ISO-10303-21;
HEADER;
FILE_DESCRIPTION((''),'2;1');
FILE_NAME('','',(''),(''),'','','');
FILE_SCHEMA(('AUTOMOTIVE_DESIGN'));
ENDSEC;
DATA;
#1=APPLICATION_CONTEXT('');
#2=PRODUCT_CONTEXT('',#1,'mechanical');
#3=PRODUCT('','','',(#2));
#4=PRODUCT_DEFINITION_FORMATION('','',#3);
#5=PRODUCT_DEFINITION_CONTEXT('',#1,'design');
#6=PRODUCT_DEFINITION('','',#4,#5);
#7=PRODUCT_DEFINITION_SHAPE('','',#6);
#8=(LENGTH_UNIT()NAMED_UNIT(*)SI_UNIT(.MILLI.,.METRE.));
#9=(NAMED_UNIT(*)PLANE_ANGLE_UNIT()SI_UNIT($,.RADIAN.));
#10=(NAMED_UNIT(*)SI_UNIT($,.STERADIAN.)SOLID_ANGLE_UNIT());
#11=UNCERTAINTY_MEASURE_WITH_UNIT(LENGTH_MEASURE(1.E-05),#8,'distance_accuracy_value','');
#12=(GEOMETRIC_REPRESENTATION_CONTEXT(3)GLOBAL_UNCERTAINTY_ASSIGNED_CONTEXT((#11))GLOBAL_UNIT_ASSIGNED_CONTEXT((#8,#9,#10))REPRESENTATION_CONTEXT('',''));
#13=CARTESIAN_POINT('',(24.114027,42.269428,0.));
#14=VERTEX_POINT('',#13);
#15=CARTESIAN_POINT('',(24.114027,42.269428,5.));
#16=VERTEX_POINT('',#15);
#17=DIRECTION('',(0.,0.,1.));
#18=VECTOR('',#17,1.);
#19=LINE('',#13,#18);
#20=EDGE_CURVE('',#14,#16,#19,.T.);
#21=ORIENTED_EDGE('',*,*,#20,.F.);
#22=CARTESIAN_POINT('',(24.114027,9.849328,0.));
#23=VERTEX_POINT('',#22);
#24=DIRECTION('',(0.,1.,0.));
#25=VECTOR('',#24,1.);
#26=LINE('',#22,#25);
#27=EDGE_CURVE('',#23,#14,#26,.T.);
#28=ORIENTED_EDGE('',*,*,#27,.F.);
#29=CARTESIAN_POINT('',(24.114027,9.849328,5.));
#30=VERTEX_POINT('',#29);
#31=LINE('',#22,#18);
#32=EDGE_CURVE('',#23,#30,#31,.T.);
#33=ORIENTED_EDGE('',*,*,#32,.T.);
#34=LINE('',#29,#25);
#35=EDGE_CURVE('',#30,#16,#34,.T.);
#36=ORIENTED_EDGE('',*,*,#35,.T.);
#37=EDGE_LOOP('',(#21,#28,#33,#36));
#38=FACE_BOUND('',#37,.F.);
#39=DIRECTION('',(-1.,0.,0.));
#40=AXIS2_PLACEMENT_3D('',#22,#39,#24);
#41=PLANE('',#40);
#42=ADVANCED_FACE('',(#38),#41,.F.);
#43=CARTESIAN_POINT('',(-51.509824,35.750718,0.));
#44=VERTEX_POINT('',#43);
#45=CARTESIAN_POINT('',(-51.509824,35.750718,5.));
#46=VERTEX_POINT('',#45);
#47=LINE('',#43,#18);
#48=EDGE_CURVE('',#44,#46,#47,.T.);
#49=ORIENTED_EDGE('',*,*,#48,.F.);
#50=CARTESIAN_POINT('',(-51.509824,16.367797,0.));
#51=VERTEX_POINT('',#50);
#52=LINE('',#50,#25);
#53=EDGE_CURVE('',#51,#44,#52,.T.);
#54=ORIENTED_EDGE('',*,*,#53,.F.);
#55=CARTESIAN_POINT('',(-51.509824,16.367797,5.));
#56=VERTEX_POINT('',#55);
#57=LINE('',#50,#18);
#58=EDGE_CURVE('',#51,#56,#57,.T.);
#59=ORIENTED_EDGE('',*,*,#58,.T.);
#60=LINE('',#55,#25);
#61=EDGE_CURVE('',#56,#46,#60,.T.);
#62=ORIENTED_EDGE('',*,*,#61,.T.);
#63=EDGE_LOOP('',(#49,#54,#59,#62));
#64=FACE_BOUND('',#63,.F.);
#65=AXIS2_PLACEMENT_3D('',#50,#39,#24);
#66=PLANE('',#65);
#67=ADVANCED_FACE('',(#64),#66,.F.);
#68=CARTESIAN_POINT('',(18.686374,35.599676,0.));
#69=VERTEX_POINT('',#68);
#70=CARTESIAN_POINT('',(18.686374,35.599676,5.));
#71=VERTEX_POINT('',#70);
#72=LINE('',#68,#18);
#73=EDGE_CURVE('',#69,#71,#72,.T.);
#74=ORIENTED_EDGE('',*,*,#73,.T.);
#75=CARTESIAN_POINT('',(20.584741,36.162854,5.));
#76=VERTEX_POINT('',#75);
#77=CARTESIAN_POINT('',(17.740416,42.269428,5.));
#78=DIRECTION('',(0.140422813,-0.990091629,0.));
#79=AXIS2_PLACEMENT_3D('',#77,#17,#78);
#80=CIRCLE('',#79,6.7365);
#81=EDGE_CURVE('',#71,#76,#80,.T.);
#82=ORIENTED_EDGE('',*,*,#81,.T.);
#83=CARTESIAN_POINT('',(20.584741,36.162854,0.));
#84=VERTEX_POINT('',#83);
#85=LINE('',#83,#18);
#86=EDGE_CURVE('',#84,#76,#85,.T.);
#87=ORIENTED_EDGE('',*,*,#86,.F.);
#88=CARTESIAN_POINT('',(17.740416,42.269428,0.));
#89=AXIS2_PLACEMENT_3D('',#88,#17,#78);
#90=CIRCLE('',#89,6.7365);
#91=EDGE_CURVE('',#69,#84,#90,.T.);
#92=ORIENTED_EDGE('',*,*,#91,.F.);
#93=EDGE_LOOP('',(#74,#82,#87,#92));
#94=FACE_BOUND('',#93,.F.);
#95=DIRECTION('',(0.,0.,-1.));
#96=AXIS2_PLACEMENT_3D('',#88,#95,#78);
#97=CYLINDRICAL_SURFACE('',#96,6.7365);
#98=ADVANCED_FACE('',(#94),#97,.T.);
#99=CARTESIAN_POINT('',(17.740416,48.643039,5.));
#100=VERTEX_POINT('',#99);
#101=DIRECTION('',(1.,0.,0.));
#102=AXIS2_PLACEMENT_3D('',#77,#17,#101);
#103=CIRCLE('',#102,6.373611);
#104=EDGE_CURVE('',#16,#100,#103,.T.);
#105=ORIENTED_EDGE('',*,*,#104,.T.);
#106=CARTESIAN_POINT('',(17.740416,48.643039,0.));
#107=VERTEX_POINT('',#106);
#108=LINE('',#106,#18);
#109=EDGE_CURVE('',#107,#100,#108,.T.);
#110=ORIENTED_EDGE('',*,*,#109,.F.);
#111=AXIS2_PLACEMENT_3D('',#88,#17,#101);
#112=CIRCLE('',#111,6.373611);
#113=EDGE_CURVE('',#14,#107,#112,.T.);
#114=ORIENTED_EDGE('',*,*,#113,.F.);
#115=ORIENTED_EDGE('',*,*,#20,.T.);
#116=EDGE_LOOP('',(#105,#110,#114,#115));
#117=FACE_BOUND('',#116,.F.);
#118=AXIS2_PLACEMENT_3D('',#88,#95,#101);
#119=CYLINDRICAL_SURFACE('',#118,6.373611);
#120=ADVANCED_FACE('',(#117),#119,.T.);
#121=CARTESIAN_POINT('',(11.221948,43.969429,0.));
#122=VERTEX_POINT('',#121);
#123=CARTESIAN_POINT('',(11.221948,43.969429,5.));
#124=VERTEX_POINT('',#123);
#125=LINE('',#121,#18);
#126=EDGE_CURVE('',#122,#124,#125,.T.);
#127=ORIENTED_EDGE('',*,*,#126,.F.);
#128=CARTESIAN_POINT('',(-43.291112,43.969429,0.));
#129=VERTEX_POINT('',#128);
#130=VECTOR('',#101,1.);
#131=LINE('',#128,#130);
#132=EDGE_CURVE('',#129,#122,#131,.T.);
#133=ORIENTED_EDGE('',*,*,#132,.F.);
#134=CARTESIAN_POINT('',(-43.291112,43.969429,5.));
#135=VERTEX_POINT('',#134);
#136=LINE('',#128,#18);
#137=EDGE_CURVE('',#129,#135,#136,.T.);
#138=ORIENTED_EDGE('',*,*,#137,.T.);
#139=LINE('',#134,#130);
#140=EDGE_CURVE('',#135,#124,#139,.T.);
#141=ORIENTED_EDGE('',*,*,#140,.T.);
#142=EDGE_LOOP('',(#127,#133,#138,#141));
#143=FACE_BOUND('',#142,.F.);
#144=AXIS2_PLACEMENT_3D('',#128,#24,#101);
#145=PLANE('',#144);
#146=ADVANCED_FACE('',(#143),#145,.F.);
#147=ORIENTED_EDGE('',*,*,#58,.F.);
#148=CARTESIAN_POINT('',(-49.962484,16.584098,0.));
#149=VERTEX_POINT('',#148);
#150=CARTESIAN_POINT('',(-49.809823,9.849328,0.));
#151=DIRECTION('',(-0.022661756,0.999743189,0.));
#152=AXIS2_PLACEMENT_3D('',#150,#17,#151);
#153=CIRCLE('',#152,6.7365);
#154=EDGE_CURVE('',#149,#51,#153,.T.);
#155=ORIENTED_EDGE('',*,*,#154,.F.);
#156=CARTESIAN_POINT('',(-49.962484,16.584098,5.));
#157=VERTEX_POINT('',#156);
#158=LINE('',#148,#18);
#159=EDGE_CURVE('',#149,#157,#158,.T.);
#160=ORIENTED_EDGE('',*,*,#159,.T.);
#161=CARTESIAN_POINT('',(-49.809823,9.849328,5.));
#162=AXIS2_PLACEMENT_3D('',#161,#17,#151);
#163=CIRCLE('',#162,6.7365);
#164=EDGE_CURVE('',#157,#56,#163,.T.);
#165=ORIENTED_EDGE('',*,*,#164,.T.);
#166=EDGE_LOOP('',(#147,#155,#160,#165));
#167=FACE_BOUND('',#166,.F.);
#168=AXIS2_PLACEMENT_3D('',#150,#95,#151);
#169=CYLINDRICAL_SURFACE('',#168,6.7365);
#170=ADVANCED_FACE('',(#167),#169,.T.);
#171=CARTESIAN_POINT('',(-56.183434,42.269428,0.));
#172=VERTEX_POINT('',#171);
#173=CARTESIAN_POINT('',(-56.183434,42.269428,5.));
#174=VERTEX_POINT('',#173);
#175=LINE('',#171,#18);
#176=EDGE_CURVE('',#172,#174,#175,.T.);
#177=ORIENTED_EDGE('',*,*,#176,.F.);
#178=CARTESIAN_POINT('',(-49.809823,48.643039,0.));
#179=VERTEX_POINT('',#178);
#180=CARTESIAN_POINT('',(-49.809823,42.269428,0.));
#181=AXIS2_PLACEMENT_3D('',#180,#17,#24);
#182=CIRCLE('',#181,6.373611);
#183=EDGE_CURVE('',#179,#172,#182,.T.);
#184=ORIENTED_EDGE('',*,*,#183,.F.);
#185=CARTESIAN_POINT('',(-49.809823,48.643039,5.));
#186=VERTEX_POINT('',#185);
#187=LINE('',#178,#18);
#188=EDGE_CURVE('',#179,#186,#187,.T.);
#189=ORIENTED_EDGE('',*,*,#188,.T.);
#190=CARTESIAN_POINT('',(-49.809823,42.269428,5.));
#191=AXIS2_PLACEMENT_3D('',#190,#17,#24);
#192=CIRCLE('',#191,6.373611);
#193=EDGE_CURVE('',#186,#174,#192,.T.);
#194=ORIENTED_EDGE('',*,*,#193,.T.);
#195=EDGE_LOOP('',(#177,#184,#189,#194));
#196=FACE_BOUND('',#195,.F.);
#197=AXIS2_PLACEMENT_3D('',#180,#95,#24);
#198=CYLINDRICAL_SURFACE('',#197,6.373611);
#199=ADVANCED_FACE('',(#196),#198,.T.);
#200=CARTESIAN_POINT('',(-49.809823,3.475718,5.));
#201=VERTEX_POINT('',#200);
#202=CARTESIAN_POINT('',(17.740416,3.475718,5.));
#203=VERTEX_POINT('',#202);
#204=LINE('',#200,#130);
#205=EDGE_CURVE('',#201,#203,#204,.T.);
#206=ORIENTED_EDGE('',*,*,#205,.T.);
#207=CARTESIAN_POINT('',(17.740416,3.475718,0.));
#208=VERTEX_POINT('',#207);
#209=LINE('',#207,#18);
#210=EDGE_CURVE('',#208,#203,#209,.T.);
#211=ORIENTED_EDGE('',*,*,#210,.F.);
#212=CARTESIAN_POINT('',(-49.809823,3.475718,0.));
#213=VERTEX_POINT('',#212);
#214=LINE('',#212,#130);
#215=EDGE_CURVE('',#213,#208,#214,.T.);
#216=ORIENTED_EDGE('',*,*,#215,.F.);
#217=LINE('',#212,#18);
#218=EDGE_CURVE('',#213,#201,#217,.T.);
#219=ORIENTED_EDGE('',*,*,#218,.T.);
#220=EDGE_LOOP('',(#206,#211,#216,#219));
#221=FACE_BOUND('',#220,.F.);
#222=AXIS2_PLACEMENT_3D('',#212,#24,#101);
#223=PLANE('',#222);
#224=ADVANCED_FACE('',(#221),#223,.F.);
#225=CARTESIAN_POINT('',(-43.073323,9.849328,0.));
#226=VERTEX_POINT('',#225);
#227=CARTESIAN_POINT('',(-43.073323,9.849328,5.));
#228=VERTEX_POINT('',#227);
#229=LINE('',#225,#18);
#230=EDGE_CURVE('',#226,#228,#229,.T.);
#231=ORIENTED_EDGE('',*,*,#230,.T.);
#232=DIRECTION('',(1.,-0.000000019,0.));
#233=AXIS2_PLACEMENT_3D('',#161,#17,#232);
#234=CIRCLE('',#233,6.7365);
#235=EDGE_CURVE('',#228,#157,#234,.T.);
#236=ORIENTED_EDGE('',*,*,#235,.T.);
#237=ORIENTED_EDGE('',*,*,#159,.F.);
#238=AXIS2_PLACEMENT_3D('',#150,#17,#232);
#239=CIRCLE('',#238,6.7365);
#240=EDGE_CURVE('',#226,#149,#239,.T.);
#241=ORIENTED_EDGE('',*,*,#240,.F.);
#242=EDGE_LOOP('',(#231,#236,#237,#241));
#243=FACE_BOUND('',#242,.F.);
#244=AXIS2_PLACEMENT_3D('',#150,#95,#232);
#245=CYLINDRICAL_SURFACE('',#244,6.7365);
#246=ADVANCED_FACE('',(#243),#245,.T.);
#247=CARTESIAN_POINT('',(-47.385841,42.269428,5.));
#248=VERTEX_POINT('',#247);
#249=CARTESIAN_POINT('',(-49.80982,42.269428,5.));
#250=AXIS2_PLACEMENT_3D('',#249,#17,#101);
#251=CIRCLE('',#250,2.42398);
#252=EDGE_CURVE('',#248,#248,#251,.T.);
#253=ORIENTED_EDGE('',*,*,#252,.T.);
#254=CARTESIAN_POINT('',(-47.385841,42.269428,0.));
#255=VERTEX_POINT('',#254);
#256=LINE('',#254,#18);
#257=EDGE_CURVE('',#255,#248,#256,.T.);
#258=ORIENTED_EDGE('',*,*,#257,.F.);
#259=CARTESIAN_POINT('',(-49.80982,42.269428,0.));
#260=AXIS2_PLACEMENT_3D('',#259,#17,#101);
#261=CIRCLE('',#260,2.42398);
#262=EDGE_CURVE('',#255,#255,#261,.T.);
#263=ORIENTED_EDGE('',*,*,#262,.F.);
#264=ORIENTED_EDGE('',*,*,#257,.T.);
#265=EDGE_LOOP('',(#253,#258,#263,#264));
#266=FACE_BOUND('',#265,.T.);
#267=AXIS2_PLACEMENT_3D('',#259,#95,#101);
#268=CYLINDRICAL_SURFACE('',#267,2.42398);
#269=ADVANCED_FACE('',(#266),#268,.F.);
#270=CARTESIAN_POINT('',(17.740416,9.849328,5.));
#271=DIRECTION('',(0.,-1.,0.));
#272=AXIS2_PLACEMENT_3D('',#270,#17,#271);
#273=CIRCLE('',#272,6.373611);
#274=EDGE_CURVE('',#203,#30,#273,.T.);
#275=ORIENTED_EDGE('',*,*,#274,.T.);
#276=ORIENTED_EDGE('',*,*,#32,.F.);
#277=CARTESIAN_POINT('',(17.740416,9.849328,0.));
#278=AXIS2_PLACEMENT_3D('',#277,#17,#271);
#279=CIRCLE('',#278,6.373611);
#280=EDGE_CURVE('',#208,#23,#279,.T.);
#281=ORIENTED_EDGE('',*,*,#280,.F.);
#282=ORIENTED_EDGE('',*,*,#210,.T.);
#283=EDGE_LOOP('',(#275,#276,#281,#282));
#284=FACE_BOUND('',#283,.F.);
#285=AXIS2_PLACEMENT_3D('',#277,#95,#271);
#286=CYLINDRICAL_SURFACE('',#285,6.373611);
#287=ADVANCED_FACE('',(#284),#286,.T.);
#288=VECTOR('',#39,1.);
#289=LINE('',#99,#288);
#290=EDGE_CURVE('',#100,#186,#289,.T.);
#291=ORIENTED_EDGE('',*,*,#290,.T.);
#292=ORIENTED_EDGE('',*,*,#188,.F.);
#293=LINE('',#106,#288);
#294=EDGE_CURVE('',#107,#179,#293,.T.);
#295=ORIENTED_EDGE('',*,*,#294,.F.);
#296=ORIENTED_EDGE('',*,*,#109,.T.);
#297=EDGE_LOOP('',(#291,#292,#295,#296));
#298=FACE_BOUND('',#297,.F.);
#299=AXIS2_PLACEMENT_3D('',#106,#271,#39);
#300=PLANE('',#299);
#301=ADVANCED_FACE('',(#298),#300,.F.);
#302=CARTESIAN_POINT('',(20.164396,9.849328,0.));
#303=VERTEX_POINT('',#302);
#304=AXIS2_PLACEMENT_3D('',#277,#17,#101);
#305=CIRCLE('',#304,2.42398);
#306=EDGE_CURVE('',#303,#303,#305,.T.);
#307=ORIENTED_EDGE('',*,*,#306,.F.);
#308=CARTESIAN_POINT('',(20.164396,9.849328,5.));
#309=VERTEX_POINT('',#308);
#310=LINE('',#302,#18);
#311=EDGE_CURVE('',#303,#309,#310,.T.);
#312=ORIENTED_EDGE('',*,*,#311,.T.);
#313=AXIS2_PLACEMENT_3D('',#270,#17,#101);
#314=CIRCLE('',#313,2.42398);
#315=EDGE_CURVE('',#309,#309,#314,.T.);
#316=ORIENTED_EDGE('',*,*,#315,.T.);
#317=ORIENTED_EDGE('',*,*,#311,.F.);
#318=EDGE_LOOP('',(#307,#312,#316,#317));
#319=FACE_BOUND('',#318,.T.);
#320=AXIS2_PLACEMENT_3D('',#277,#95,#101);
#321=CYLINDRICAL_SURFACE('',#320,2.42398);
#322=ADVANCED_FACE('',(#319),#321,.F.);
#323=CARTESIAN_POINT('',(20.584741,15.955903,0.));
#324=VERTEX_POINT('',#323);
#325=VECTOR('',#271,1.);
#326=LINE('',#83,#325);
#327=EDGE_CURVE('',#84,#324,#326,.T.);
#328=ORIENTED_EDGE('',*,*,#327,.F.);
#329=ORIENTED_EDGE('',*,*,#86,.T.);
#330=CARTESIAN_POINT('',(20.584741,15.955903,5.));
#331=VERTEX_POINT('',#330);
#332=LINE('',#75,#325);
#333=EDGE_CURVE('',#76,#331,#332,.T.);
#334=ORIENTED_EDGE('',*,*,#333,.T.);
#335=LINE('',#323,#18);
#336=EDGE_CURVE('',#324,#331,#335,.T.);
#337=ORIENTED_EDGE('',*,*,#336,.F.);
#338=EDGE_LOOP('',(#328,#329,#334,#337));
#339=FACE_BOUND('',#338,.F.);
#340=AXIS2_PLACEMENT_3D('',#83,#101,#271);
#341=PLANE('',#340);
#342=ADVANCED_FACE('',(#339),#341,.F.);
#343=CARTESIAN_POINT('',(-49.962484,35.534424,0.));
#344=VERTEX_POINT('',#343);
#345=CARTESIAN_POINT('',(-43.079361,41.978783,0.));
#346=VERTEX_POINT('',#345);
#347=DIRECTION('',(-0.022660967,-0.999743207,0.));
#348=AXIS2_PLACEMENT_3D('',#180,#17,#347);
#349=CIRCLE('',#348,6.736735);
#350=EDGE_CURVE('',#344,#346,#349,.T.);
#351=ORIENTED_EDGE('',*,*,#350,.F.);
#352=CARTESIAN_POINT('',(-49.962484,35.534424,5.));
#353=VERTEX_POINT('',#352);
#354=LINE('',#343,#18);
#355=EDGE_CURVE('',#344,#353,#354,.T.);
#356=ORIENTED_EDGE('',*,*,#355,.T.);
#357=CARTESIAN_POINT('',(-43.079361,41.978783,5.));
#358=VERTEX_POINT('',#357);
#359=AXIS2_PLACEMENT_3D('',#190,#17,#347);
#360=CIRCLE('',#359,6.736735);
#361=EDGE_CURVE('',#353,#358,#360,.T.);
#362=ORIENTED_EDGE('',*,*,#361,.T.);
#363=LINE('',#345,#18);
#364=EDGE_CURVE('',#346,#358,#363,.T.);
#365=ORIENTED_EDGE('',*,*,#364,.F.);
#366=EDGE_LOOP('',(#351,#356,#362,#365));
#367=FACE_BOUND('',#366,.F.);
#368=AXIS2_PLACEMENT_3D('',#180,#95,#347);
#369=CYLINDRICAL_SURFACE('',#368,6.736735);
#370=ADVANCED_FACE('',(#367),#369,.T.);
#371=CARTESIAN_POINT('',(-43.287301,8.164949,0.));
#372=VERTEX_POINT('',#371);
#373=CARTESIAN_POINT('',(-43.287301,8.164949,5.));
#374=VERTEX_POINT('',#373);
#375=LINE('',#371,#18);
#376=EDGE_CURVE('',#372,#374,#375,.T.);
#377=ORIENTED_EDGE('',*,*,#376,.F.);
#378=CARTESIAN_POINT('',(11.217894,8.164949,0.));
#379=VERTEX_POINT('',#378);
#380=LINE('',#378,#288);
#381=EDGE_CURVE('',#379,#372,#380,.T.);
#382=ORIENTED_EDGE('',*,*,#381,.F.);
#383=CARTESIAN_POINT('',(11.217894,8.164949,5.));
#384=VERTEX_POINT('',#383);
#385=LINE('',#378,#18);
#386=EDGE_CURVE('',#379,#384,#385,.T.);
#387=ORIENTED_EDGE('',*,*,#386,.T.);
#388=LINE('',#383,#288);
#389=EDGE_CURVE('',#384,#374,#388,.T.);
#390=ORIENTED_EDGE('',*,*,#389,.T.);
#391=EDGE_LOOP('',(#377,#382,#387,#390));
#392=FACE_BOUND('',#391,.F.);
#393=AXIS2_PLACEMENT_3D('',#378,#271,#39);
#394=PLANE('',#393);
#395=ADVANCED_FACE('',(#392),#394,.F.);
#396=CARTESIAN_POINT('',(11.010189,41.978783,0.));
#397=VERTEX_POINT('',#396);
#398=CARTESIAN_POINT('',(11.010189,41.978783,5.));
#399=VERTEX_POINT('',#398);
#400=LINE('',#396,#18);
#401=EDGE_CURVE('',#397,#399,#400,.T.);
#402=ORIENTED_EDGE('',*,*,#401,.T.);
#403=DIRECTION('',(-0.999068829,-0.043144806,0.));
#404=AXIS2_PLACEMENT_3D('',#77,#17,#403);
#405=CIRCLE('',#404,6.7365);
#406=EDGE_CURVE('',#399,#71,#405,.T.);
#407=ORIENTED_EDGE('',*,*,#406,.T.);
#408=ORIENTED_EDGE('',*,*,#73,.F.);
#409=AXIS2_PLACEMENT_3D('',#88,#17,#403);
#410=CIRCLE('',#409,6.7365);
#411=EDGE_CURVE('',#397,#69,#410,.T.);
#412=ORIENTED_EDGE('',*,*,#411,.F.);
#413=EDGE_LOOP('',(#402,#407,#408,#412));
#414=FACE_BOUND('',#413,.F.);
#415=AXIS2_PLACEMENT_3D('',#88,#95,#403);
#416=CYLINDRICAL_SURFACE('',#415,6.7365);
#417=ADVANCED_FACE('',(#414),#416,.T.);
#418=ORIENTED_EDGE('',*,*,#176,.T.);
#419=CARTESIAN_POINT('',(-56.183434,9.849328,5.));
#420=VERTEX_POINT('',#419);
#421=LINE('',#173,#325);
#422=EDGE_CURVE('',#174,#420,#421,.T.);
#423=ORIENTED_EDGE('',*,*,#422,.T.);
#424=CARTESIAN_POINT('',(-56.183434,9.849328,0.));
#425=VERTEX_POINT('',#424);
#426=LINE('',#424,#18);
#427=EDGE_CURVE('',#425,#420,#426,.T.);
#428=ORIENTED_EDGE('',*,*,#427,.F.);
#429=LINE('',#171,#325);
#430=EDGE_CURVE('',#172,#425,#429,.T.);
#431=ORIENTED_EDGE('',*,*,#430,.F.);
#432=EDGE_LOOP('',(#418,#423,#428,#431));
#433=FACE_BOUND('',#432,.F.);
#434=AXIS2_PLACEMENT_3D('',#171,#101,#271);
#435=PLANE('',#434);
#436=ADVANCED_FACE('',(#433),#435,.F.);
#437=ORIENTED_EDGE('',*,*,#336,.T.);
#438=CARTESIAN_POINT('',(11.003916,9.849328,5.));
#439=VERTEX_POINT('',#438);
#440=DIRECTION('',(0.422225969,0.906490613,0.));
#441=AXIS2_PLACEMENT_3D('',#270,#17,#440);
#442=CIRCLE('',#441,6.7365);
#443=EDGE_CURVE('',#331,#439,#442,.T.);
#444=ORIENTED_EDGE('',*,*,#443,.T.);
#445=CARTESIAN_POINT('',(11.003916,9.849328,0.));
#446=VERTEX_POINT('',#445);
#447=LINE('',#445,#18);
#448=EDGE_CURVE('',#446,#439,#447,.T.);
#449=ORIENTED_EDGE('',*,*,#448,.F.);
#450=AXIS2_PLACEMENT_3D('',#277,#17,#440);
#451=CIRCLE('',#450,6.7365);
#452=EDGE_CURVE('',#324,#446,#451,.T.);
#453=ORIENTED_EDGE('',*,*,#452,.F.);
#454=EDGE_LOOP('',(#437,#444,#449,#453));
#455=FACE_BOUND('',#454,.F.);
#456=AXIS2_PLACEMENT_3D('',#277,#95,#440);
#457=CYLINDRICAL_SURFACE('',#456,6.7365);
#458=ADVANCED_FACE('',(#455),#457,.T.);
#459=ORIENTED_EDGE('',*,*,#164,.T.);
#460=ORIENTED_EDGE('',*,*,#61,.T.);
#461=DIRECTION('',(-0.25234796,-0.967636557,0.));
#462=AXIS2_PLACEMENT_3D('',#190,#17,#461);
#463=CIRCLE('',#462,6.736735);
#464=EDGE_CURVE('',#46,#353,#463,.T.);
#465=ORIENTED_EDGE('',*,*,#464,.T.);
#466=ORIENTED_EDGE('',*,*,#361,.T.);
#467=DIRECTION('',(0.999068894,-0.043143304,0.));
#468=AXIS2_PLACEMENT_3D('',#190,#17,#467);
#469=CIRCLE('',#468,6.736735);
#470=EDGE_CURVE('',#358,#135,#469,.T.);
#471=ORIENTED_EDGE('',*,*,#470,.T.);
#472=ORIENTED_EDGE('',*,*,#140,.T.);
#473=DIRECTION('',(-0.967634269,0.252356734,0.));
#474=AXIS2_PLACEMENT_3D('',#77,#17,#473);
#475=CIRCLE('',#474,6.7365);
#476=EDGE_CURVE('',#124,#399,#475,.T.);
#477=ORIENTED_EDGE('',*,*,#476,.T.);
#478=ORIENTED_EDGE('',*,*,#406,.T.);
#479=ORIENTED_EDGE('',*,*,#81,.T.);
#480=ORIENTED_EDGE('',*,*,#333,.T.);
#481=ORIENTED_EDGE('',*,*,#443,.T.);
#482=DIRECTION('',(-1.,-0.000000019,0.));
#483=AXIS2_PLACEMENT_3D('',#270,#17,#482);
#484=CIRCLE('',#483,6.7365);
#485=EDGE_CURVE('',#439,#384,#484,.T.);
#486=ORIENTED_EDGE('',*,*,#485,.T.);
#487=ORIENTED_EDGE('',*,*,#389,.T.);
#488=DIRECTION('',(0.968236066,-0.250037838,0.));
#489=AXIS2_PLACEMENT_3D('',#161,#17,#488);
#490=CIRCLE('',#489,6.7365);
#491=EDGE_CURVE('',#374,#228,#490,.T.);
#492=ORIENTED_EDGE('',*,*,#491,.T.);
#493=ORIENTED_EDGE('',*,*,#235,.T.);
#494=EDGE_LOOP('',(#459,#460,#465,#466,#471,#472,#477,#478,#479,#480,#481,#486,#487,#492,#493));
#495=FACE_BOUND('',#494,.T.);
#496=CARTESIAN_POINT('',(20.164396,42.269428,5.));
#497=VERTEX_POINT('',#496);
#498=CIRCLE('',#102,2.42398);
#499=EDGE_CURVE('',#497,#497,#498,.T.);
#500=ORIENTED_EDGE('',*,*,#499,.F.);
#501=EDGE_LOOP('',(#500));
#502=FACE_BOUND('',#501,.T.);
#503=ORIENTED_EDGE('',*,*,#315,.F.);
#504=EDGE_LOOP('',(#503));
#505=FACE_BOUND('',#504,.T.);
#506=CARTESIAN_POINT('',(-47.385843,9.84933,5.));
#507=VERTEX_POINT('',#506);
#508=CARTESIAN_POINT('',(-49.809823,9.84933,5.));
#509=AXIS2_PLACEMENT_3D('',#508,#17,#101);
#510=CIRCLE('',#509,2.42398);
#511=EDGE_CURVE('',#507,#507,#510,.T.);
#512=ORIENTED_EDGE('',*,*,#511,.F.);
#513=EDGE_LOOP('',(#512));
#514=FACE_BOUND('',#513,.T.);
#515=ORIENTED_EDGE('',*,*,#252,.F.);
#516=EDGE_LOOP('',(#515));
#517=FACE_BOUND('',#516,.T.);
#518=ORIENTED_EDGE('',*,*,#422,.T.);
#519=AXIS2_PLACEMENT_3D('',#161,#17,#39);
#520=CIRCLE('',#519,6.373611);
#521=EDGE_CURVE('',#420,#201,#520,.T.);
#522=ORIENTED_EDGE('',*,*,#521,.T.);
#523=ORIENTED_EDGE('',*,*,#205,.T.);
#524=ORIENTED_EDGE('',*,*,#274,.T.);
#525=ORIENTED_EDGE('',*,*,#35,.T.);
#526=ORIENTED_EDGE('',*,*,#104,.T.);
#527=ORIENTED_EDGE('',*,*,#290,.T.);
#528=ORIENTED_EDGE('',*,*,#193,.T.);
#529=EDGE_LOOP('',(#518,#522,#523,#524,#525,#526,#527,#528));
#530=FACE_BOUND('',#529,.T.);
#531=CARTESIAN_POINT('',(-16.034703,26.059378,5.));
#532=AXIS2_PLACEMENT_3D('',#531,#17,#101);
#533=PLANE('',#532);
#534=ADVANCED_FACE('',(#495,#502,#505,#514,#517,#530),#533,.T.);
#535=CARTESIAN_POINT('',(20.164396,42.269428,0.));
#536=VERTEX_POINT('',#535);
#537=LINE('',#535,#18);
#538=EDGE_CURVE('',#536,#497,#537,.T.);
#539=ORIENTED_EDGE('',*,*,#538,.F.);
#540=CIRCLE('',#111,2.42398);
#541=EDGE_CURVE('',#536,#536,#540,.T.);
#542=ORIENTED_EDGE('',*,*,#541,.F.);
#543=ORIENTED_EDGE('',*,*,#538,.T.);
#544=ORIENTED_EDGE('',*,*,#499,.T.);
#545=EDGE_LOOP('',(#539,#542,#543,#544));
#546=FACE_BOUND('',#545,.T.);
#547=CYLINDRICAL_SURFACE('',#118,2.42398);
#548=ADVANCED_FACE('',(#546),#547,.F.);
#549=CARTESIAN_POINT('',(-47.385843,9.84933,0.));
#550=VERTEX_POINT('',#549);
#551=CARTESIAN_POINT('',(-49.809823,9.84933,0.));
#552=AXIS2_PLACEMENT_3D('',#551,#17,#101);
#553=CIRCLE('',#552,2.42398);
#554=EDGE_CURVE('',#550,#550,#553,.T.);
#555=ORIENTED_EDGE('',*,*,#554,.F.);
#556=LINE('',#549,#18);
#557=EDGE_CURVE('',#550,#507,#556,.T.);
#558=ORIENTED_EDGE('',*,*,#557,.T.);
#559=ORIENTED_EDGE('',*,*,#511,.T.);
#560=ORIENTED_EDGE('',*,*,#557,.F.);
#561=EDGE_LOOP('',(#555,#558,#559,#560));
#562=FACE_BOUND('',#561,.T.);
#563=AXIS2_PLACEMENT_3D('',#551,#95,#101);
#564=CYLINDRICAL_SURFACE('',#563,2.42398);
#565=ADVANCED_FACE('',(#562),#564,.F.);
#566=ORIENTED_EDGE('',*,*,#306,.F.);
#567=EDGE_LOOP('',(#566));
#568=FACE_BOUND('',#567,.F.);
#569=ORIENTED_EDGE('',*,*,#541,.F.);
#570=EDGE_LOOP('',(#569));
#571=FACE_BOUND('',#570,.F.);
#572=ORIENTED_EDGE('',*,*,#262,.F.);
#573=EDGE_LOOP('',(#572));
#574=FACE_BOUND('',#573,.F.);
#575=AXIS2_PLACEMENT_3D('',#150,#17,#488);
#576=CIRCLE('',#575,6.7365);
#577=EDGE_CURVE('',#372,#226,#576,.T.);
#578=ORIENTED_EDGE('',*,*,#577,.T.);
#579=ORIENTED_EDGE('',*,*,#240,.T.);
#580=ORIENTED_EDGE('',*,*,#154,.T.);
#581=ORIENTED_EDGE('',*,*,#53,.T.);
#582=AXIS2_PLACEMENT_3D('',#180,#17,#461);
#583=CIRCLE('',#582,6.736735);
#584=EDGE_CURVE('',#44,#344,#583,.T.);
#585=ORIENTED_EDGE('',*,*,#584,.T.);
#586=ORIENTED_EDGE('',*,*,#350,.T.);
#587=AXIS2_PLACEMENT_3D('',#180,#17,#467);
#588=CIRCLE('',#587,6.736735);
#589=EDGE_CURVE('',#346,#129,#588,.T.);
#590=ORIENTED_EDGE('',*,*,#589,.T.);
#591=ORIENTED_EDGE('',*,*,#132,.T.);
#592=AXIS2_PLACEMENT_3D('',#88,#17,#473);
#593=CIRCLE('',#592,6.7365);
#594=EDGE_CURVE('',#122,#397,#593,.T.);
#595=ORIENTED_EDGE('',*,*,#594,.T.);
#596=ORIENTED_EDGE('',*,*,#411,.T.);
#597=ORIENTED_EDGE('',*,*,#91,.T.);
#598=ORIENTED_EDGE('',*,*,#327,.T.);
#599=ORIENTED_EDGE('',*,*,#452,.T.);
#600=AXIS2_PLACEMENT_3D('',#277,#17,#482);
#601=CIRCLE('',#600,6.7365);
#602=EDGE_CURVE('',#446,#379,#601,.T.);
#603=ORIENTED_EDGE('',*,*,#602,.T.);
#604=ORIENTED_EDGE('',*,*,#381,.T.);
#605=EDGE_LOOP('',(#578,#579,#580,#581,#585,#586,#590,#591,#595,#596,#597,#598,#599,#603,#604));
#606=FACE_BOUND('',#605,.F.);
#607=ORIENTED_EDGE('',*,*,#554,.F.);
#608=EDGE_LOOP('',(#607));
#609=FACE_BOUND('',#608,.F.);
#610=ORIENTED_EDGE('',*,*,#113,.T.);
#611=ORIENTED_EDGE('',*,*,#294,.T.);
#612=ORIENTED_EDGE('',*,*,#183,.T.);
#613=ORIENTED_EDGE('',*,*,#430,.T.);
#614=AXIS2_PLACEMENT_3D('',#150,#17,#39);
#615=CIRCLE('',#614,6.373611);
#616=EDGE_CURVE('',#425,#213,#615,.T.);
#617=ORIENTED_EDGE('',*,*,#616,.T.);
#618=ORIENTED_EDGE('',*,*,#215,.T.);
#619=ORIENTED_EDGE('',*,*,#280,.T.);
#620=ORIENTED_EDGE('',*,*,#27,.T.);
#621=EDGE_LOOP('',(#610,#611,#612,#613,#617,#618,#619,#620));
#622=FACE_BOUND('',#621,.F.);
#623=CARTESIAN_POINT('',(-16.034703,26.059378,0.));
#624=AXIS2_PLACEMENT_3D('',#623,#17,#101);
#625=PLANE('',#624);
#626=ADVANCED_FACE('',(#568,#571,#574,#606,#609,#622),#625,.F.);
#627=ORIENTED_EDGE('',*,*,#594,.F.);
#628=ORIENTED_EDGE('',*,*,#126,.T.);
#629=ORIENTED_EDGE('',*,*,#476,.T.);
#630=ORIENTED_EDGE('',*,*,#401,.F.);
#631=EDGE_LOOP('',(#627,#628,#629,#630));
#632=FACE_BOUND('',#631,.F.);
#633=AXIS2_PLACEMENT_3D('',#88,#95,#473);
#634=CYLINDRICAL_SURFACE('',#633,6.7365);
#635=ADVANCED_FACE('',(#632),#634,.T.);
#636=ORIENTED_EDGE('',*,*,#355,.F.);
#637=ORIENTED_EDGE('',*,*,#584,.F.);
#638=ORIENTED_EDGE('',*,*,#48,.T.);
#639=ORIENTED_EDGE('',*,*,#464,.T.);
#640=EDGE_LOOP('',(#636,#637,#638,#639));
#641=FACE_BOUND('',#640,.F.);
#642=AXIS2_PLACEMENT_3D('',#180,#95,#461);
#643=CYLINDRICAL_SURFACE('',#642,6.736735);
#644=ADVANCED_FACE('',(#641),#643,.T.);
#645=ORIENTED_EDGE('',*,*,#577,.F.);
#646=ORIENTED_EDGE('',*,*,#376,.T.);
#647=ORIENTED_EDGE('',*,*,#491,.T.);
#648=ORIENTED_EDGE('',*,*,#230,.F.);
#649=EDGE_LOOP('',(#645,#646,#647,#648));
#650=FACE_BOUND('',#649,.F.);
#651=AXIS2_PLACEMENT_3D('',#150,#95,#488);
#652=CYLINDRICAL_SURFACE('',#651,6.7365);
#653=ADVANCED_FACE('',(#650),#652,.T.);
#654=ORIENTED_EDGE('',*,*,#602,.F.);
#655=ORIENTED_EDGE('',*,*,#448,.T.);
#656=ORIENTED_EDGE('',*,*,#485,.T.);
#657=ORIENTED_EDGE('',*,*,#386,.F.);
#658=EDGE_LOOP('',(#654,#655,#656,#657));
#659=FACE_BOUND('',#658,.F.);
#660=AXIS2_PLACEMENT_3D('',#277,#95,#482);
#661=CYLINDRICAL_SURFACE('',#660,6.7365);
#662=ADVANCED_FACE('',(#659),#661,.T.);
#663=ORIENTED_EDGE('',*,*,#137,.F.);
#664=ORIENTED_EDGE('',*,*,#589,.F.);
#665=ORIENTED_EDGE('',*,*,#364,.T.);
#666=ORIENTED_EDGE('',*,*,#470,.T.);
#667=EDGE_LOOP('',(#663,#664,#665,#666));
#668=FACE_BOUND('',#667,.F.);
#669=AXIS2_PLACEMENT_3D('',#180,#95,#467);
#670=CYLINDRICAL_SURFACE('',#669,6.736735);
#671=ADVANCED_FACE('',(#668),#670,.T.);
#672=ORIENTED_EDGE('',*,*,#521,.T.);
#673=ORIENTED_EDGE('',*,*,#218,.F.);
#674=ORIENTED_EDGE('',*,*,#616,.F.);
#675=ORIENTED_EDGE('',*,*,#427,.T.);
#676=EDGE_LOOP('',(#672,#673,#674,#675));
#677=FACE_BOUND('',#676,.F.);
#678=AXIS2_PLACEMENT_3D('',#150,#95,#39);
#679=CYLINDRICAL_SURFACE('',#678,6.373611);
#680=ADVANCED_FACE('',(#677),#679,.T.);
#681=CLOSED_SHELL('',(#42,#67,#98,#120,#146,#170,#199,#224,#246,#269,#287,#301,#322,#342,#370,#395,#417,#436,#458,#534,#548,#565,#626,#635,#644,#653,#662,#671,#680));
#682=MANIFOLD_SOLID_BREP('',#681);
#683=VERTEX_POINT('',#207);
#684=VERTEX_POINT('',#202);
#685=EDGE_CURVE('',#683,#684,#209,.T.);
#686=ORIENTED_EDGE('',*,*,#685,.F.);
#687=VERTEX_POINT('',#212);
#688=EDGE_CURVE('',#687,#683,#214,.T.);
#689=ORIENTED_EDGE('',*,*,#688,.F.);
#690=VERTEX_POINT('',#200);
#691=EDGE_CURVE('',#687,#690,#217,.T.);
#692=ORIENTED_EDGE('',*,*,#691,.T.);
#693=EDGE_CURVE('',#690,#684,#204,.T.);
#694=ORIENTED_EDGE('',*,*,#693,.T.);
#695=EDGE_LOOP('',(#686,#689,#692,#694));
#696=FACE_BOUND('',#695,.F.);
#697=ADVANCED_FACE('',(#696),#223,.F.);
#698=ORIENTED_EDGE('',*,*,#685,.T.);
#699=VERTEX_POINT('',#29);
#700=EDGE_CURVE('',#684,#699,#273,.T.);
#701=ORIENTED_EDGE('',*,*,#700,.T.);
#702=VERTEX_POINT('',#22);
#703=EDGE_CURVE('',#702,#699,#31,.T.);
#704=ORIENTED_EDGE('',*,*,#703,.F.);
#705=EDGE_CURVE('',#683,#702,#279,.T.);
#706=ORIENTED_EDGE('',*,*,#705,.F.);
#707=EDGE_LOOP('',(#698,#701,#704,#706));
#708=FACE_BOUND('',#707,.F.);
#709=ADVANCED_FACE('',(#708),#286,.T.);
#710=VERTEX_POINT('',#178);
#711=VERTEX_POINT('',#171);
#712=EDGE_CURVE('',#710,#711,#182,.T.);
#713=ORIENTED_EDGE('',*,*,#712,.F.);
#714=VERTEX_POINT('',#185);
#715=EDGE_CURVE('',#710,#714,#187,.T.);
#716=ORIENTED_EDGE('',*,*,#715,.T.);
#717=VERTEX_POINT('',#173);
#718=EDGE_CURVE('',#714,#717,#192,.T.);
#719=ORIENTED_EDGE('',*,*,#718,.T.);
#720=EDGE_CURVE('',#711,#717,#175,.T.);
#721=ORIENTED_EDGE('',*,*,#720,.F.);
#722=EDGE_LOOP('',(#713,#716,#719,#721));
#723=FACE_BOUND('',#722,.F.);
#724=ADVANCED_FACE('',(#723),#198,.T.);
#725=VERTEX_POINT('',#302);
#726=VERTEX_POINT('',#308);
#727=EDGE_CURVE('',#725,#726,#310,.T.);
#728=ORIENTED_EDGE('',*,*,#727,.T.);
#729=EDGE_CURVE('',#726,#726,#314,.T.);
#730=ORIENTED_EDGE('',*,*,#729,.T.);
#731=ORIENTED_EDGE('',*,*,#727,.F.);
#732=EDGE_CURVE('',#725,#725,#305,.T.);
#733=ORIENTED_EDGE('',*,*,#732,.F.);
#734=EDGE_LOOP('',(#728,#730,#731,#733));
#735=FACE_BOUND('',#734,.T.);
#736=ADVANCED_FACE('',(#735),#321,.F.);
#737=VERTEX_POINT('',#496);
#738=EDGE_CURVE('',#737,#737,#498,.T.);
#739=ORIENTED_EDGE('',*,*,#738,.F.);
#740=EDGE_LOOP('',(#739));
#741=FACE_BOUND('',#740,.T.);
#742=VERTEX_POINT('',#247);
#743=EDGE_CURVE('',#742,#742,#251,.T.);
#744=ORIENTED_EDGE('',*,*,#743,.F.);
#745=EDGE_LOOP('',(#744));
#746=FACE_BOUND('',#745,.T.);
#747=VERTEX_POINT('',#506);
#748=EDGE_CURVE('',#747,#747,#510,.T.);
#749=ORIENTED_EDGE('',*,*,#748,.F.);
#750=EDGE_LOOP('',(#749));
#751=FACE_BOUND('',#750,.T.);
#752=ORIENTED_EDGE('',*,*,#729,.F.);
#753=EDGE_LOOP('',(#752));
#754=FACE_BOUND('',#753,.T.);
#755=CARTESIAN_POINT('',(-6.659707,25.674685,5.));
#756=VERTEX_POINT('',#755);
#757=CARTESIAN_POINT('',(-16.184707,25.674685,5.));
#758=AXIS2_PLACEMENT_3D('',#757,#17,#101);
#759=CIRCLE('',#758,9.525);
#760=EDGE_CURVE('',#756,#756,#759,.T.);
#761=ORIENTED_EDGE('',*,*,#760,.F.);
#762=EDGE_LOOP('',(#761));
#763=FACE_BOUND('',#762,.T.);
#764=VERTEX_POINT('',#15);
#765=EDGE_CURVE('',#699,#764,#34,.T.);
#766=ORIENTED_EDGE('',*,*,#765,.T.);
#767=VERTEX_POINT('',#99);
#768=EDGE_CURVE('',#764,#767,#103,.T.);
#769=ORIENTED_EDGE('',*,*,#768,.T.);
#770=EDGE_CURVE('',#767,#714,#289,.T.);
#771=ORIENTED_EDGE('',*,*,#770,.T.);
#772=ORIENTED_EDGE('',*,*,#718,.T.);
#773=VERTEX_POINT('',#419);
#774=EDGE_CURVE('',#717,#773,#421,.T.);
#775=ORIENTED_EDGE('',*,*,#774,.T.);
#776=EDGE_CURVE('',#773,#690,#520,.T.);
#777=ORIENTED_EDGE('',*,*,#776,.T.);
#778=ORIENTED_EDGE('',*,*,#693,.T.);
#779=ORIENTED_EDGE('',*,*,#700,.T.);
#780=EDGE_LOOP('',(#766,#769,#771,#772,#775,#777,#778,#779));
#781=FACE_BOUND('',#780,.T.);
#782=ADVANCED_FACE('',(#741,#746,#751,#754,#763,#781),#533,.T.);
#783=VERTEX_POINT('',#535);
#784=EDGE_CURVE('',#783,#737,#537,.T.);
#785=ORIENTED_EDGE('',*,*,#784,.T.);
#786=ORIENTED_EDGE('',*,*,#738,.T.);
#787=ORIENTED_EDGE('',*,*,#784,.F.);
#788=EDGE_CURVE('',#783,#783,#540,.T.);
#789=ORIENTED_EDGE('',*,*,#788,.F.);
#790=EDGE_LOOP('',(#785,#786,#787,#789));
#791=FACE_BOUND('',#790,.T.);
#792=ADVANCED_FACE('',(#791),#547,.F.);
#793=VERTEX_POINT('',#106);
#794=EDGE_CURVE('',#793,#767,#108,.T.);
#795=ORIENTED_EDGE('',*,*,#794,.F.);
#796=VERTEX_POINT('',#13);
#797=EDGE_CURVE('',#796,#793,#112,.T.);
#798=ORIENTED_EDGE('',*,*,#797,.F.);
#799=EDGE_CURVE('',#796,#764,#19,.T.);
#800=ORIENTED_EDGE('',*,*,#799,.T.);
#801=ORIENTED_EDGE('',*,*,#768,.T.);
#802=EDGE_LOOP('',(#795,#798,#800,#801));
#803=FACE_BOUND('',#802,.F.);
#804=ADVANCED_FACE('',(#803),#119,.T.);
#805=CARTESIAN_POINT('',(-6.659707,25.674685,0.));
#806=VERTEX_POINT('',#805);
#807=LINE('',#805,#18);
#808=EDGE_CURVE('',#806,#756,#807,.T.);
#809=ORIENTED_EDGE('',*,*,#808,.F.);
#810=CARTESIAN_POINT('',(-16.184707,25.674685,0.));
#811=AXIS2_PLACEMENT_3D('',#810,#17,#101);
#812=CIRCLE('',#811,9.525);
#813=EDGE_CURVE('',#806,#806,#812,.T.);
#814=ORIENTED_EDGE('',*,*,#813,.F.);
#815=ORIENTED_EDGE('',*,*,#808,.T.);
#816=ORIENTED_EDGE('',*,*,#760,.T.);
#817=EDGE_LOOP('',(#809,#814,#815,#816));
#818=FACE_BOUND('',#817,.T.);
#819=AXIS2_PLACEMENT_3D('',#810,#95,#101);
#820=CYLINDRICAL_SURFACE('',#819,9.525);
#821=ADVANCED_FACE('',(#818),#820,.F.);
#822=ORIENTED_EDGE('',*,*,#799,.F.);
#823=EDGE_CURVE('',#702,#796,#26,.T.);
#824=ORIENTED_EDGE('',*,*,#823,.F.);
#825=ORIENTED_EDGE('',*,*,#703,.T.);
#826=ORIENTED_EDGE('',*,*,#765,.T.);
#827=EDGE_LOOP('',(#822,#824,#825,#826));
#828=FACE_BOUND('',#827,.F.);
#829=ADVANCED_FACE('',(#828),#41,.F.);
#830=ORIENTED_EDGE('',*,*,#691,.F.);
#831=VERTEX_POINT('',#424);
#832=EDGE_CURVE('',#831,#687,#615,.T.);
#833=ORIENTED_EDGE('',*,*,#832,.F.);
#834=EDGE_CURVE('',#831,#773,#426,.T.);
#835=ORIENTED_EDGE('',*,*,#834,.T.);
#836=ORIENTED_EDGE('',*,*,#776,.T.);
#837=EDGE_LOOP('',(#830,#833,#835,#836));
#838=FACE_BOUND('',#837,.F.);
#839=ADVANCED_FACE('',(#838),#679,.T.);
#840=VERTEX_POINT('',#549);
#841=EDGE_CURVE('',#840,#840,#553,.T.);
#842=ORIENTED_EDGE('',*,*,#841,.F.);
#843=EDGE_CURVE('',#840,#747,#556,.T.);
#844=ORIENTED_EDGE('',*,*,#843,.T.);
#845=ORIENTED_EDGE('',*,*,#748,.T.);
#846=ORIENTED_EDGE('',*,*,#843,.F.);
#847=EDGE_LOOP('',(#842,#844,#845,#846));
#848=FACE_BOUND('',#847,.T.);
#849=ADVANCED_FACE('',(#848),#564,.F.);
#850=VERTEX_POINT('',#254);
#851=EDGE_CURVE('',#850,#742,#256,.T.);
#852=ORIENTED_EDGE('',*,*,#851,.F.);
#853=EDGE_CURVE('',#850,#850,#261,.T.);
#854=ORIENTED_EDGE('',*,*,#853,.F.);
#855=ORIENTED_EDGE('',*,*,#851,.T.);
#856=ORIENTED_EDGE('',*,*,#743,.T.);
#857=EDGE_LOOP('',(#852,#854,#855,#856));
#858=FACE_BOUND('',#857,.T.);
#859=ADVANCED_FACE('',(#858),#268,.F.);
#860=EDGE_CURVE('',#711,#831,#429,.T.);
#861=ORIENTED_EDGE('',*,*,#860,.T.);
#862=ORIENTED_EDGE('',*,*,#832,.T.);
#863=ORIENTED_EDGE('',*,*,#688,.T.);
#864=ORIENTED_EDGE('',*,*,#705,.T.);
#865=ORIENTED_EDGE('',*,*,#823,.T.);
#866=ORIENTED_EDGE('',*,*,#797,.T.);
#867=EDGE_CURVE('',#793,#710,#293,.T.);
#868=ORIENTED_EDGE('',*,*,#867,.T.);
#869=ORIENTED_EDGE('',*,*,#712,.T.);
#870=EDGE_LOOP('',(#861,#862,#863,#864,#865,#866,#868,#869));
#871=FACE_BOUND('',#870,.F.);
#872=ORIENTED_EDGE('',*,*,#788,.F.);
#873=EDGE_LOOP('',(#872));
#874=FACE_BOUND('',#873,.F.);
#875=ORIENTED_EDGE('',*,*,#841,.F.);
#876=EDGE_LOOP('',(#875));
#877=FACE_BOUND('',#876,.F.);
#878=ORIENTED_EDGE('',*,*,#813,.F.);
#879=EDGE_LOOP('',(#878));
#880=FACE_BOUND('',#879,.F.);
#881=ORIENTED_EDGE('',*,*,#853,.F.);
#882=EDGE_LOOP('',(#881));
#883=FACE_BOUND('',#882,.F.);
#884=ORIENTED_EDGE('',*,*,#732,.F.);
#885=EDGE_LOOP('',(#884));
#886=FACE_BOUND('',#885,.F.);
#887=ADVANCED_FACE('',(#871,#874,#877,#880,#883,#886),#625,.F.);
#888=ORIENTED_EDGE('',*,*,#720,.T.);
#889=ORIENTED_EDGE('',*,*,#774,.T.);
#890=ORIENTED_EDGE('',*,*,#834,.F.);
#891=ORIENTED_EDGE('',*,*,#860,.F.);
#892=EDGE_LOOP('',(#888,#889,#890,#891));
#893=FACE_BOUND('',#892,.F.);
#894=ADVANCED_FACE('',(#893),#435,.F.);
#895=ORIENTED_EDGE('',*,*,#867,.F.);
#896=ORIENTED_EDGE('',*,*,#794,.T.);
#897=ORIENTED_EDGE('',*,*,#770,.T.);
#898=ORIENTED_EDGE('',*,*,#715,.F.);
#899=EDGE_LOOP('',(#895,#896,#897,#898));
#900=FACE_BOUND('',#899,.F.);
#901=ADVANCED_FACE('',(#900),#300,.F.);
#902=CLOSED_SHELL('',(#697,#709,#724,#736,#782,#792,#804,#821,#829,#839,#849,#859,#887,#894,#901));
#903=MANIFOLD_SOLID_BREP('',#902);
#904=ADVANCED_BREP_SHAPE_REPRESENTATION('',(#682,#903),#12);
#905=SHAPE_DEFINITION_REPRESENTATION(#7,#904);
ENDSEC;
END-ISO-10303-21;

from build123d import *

# Parameters (mm, degrees)
F0_R     = 2.4239795943
F1_DEPTH = 5
F0_R_2   = 14.985
F0_R_3   = 13.105
F0_R_4   = 9.525
F2_DEPTH = 5


with BuildPart() as f1:
    # F0 (on Top) → F1 (new body)
    with BuildSketch(Plane.XY):
        with BuildLine():
            Line((17.7404159275, 48.6430391774), (-49.8098228694, 48.6430391774))
            ThreePointArc((-49.8098228694, 48.6430391774), (-54.3166463867, 46.7762517533), (-56.1834338108, 42.2694282359))
            Line((-56.1834338108, 42.2694282359), (-56.1834338108, 9.8493284865))
            ThreePointArc((-56.1834338108, 9.8493284865), (-54.3166463867, 5.3425049691), (-49.8098228694, 3.475717545))
            Line((-49.8098228694, 3.475717545), (17.7404159275, 3.475717545))
            ThreePointArc((17.7404159275, 3.475717545), (22.2472394449, 5.3425049691), (24.114026869, 9.8493284865))
            Line((24.114026869, 9.8493284865), (24.114026869, 42.2694282359))
            ThreePointArc((24.114026869, 42.2694282359), (22.2472394449, 46.7762517533), (17.7404159275, 48.6430391774))
        make_face()
        with Locations((-49.8098228694, 9.8493301855)):
            Circle(F0_R, mode=Mode.SUBTRACT)
        with Locations((17.7404159273, 9.8493284865)):
            Circle(F0_R, mode=Mode.SUBTRACT)
        with Locations((-49.8098201772, 42.2694282359)):
            Circle(F0_R, mode=Mode.SUBTRACT)
        with BuildLine():
            ThreePointArc((18.6863742083, 35.5996759781), (19.6563634016, 35.8111329866), (20.5847411662, 36.1628542221))
            Line((20.5847411662, 36.1628542221), (20.5847411662, 33.96608295))
            Line((20.5847411662, 33.96608295), (20.5847411662, 18.1526737723))
            Line((20.5847411662, 18.1526737723), (20.5847411662, 16.1657168497))
            Line((20.5847411662, 16.1657168497), (20.5847411662, 15.9559025003))
            ThreePointArc((20.5847411662, 15.9559025003), (14.119667658, 15.5300515231), (11.0039159275, 9.8493283582))
            ThreePointArc((11.0039159275, 9.8493283582), (11.0576244735, 9.0003699293), (11.2178936678, 8.1649485943))
            Line((11.2178936678, 8.1649485943), (9.1265553889, 8.1649485943))
            Line((9.1265553889, 8.1649485943), (-41.1959623307, 8.1649485943))
            Line((-41.1959623307, 8.1649485943), (-43.2873006096, 8.1649485943))
            ThreePointArc((-43.2873006096, 8.1649485943), (-43.1270314153, 9.0003699293), (-43.0733228694, 9.8493283582))
            ThreePointArc((-43.0733228694, 9.8493283582), (-45.1006810771, 14.6664246896), (-49.9624837875, 16.5840984821))
            ThreePointArc((-49.9624837875, 16.5840984821), (-50.7424459789, 16.5209584511), (-51.5098240912, 16.3677967188))
            Line((-51.5098240912, 16.3677967188), (-51.5098240912, 18.4601196723))
            Line((-51.5098240912, 18.4601196723), (-51.5098240912, 33.6587008899))
            Line((-51.5098240912, 33.6587008899), (-51.5098240912, 35.7507176035))
            ThreePointArc((-51.5098240912, 35.7507176035), (-50.7424455275, 35.5975613727), (-49.9624837875, 35.5344236251))
            ThreePointArc((-49.9624837875, 35.5344236251), (-45.2055520994, 37.3516763979), (-43.0793609271, 41.9787832503))
            ThreePointArc((-43.0793609271, 41.9787832503), (-43.1108817874, 42.9820156644), (-43.2911122152, 43.9694293742))
            Line((-43.2911122152, 43.9694293742), (-41.1990955068, 43.9694293742))
            Line((-41.1990955068, 43.9694293742), (9.1296247252, 43.9694293742))
            Line((9.1296247252, 43.9694293742), (11.2219476734, 43.9694293742))
            ThreePointArc((11.2219476734, 43.9694293742), (11.041710784, 42.982016231), (11.0101887588, 41.9787832503))
            ThreePointArc((11.0101887588, 41.9787832503), (13.4348736807, 37.0884304352), (18.6863742083, 35.5996759781))
        make_face(mode=Mode.SUBTRACT)
        with Locations((17.7404159273, 42.2694282359)):
            Circle(F0_R, mode=Mode.SUBTRACT)
    extrude(amount=F1_DEPTH)


with BuildPart() as f2:
    # F0 (on Top) → F2 (new body)
    with BuildSketch(Plane.XY):
        with BuildLine():
            Line((17.7404159275, 48.6430391774), (-49.8098228694, 48.6430391774))
            ThreePointArc((-49.8098228694, 48.6430391774), (-54.3166463867, 46.7762517533), (-56.1834338108, 42.2694282359))
            Line((-56.1834338108, 42.2694282359), (-56.1834338108, 9.8493284865))
            ThreePointArc((-56.1834338108, 9.8493284865), (-54.3166463867, 5.3425049691), (-49.8098228694, 3.475717545))
            Line((-49.8098228694, 3.475717545), (17.7404159275, 3.475717545))
            ThreePointArc((17.7404159275, 3.475717545), (22.2472394449, 5.3425049691), (24.114026869, 9.8493284865))
            Line((24.114026869, 9.8493284865), (24.114026869, 42.2694282359))
            ThreePointArc((24.114026869, 42.2694282359), (22.2472394449, 46.7762517533), (17.7404159275, 48.6430391774))
        make_face()
        with Locations((-49.8098228694, 9.8493301855)):
            Circle(F0_R, mode=Mode.SUBTRACT)
        with Locations((17.7404159273, 9.8493284865)):
            Circle(F0_R, mode=Mode.SUBTRACT)
        with Locations((-49.8098201772, 42.2694282359)):
            Circle(F0_R, mode=Mode.SUBTRACT)
        with BuildLine():
            ThreePointArc((18.6863742083, 35.5996759781), (19.6563634016, 35.8111329866), (20.5847411662, 36.1628542221))
            Line((20.5847411662, 36.1628542221), (20.5847411662, 33.96608295))
            Line((20.5847411662, 33.96608295), (20.5847411662, 18.1526737723))
            Line((20.5847411662, 18.1526737723), (20.5847411662, 16.1657168497))
            Line((20.5847411662, 16.1657168497), (20.5847411662, 15.9559025003))
            ThreePointArc((20.5847411662, 15.9559025003), (14.119667658, 15.5300515231), (11.0039159275, 9.8493283582))
            ThreePointArc((11.0039159275, 9.8493283582), (11.0576244735, 9.0003699293), (11.2178936678, 8.1649485943))
            Line((11.2178936678, 8.1649485943), (9.1265553889, 8.1649485943))
            Line((9.1265553889, 8.1649485943), (-41.1959623307, 8.1649485943))
            Line((-41.1959623307, 8.1649485943), (-43.2873006096, 8.1649485943))
            ThreePointArc((-43.2873006096, 8.1649485943), (-43.1270314153, 9.0003699293), (-43.0733228694, 9.8493283582))
            ThreePointArc((-43.0733228694, 9.8493283582), (-45.1006810771, 14.6664246896), (-49.9624837875, 16.5840984821))
            ThreePointArc((-49.9624837875, 16.5840984821), (-50.7424459789, 16.5209584511), (-51.5098240912, 16.3677967188))
            Line((-51.5098240912, 16.3677967188), (-51.5098240912, 18.4601196723))
            Line((-51.5098240912, 18.4601196723), (-51.5098240912, 33.6587008899))
            Line((-51.5098240912, 33.6587008899), (-51.5098240912, 35.7507176035))
            ThreePointArc((-51.5098240912, 35.7507176035), (-50.7424455275, 35.5975613727), (-49.9624837875, 35.5344236251))
            ThreePointArc((-49.9624837875, 35.5344236251), (-45.2055520994, 37.3516763979), (-43.0793609271, 41.9787832503))
            ThreePointArc((-43.0793609271, 41.9787832503), (-43.1108817874, 42.9820156644), (-43.2911122152, 43.9694293742))
            Line((-43.2911122152, 43.9694293742), (-41.1990955068, 43.9694293742))
            Line((-41.1990955068, 43.9694293742), (9.1296247252, 43.9694293742))
            Line((9.1296247252, 43.9694293742), (11.2219476734, 43.9694293742))
            ThreePointArc((11.2219476734, 43.9694293742), (11.041710784, 42.982016231), (11.0101887588, 41.9787832503))
            ThreePointArc((11.0101887588, 41.9787832503), (13.4348736807, 37.0884304352), (18.6863742083, 35.5996759781))
        make_face(mode=Mode.SUBTRACT)
        with Locations((17.7404159273, 42.2694282359)):
            Circle(F0_R, mode=Mode.SUBTRACT)
        with BuildLine():
            Line((18.7836135842, 18.5641129158), (18.6882003436, 33.5437515458))
            ThreePointArc((18.6882003436, 33.5437515458), (11.9877855185, 35.6404786677), (8.9682295129, 41.9787832503))
            Line((8.9682295129, 41.9787832503), (8.1356065594, 41.9787832503))
            Line((8.1356065594, 41.9787832503), (-41.03769912, 41.9787832503))
            ThreePointArc((-41.03769912, 41.9787832503), (-43.7623075869, 35.9084386517), (-49.9624837875, 33.4938186146))
            Line((-49.9624837875, 33.4938186146), (-49.9624837875, 18.6250007481))
            ThreePointArc((-49.9624837875, 18.6250007481), (-43.6577571493, 16.1093457689), (-41.0328228694, 9.8493283582))
            Line((-41.0328228694, 9.8493283582), (8.1356065594, 9.8493283582))
            Line((8.1356065594, 9.8493283582), (8.9634159275, 9.8493283582))
            ThreePointArc((8.9634159275, 9.8493283582), (11.9146291014, 16.4140780519), (18.7836135842, 18.5641129158))
        make_face()
        with Locations((-16.184706682, 25.6746851806)):
            Circle(F0_R_2, mode=Mode.SUBTRACT)
        with Locations((-16.184706682, 25.6746851806)):
            Circle(F0_R_2)
        with Locations((-16.184706682, 25.6746851806)):
            Circle(F0_R_3, mode=Mode.SUBTRACT)
        with Locations((-16.184706682, 25.6746851806)):
            Circle(F0_R_3)
        with Locations((-16.184706682, 25.6746851806)):
            Circle(F0_R_4, mode=Mode.SUBTRACT)
        with BuildLine():
            Line((8.1356065594, 41.9787832503), (8.9682295129, 41.9787832503))
            ThreePointArc((8.9682295129, 41.9787832503), (8.9921220536, 42.978711885), (9.1296247252, 43.9694293742))
            Line((9.1296247252, 43.9694293742), (-41.1990955068, 43.9694293742))
            ThreePointArc((-41.1990955068, 43.9694293742), (-41.0615918372, 42.9787119518), (-41.03769912, 41.9787832503))
            Line((-41.03769912, 41.9787832503), (8.1356065594, 41.9787832503))
        make_face()
        with BuildLine():
            ThreePointArc((9.1265553889, 8.1649485943), (9.0042960013, 9.003197507), (8.9634159275, 9.8493283582))
            Line((8.9634159275, 9.8493283582), (8.1356065594, 9.8493283582))
            Line((8.1356065594, 9.8493283582), (-41.0328228694, 9.8493283582))
            ThreePointArc((-41.0328228694, 9.8493283582), (-41.0737029431, 9.003197507), (-41.1959623307, 8.1649485943))
            Line((-41.1959623307, 8.1649485943), (9.1265553889, 8.1649485943))
        make_face()
        with BuildLine():
            Line((20.5847411662, 16.1657168497), (20.5847411662, 18.1526737723))
            ThreePointArc((20.5847411662, 18.1526737723), (19.6950333089, 18.4059165852), (18.7836135842, 18.5641129158))
            ThreePointArc((18.7836135842, 18.5641129158), (11.9146291014, 16.4140780519), (8.9634159275, 9.8493283582))
            Line((8.9634159275, 9.8493283582), (11.0039159275, 9.8493283582))
            ThreePointArc((11.0039159275, 9.8493283582), (14.119667658, 15.5300515231), (20.5847411662, 15.9559025003))
            Line((20.5847411662, 15.9559025003), (20.5847411662, 16.1657168497))
        make_face()
        with BuildLine():
            Line((20.5847411662, 18.1526737723), (20.5847411662, 33.96608295))
            ThreePointArc((20.5847411662, 33.96608295), (19.6481933942, 33.7022750251), (18.6882003436, 33.5437515458))
            Line((18.6882003436, 33.5437515458), (18.7836135842, 18.5641129158))
            ThreePointArc((18.7836135842, 18.5641129158), (19.6950333089, 18.4059165852), (20.5847411662, 18.1526737723))
        make_face()
        with BuildLine():
            Line((18.6863742083, 33.8304501925), (18.6863742083, 35.5996759781))
            ThreePointArc((18.6863742083, 35.5996759781), (13.4348736807, 37.0884304352), (11.0101887588, 41.9787832503))
            Line((11.0101887588, 41.9787832503), (8.9682295129, 41.9787832503))
            ThreePointArc((8.9682295129, 41.9787832503), (11.9877855185, 35.6404786677), (18.6882003436, 33.5437515458))
            Line((18.6882003436, 33.5437515458), (18.6863742083, 33.8304501925))
        make_face()
        with BuildLine():
            Line((-41.5897783577, 9.8493283582), (-41.0328228694, 9.8493283582))
            ThreePointArc((-41.0328228694, 9.8493283582), (-43.6577571493, 16.1093457689), (-49.9624837875, 18.6250007481))
            Line((-49.9624837875, 18.6250007481), (-49.9624837875, 18.4927576189))
            Line((-49.9624837875, 18.4927576189), (-49.9624837875, 16.5840984821))
            ThreePointArc((-49.9624837875, 16.5840984821), (-45.1006810771, 14.6664246896), (-43.0733228694, 9.8493283582))
            Line((-43.0733228694, 9.8493283582), (-41.5897783577, 9.8493283582))
        make_face()
        with BuildLine():
            ThreePointArc((-49.9624837875, 33.4938186146), (-43.7623075869, 35.9084386517), (-41.03769912, 41.9787832503))
            Line((-41.03769912, 41.9787832503), (-41.5897783577, 41.9787832503))
            Line((-41.5897783577, 41.9787832503), (-43.0793609271, 41.9787832503))
            ThreePointArc((-43.0793609271, 41.9787832503), (-45.2055520994, 37.3516763979), (-49.9624837875, 35.5344236251))
            Line((-49.9624837875, 35.5344236251), (-49.9624837875, 33.8304501925))
            Line((-49.9624837875, 33.8304501925), (-49.9624837875, 33.4938186146))
        make_face()
        with BuildLine():
            Line((-49.9624837875, 18.6250007481), (-49.9624837875, 33.4938186146))
            ThreePointArc((-49.9624837875, 33.4938186146), (-50.7398152308, 33.5419003047), (-51.5098240912, 33.6587008899))
            Line((-51.5098240912, 33.6587008899), (-51.5098240912, 18.4601196723))
            ThreePointArc((-51.5098240912, 18.4601196723), (-50.7398151777, 18.5769194087), (-49.9624837875, 18.6250007481))
        make_face()
        with BuildLine():
            Line((8.9682295129, 41.9787832503), (11.0101887588, 41.9787832503))
            ThreePointArc((11.0101887588, 41.9787832503), (11.041710784, 42.982016231), (11.2219476734, 43.9694293742))
            Line((11.2219476734, 43.9694293742), (9.1296247252, 43.9694293742))
            ThreePointArc((9.1296247252, 43.9694293742), (8.9921220536, 42.978711885), (8.9682295129, 41.9787832503))
        make_face()
        with BuildLine():
            ThreePointArc((-41.03769912, 41.9787832503), (-41.0615918372, 42.9787119518), (-41.1990955068, 43.9694293742))
            Line((-41.1990955068, 43.9694293742), (-43.2911122152, 43.9694293742))
            ThreePointArc((-43.2911122152, 43.9694293742), (-43.1108817874, 42.9820156644), (-43.0793609271, 41.9787832503))
            Line((-43.0793609271, 41.9787832503), (-41.5897783577, 41.9787832503))
            Line((-41.5897783577, 41.9787832503), (-41.03769912, 41.9787832503))
        make_face()
        with BuildLine():
            Line((20.5847411662, 33.96608295), (20.5847411662, 36.1628542221))
            ThreePointArc((20.5847411662, 36.1628542221), (19.6563634016, 35.8111329866), (18.6863742083, 35.5996759781))
            Line((18.6863742083, 35.5996759781), (18.6863742083, 33.8304501925))
            Line((18.6863742083, 33.8304501925), (18.6882003436, 33.5437515458))
            ThreePointArc((18.6882003436, 33.5437515458), (19.6481933942, 33.7022750251), (20.5847411662, 33.96608295))
        make_face()
        with BuildLine():
            Line((-43.2873006096, 8.1649485943), (-41.1959623307, 8.1649485943))
            ThreePointArc((-41.1959623307, 8.1649485943), (-41.0737029431, 9.003197507), (-41.0328228694, 9.8493283582))
            Line((-41.0328228694, 9.8493283582), (-41.5897783577, 9.8493283582))
            Line((-41.5897783577, 9.8493283582), (-43.0733228694, 9.8493283582))
            ThreePointArc((-43.0733228694, 9.8493283582), (-43.1270314153, 9.0003699293), (-43.2873006096, 8.1649485943))
        make_face()
        with BuildLine():
            Line((11.0039159275, 9.8493283582), (8.9634159275, 9.8493283582))
            ThreePointArc((8.9634159275, 9.8493283582), (9.0042960013, 9.003197507), (9.1265553889, 8.1649485943))
            Line((9.1265553889, 8.1649485943), (11.2178936678, 8.1649485943))
            ThreePointArc((11.2178936678, 8.1649485943), (11.0576244735, 9.0003699293), (11.0039159275, 9.8493283582))
        make_face()
        with BuildLine():
            Line((-49.9624837875, 18.4927576189), (-49.9624837875, 18.6250007481))
            ThreePointArc((-49.9624837875, 18.6250007481), (-50.7398151777, 18.5769194087), (-51.5098240912, 18.4601196723))
            Line((-51.5098240912, 18.4601196723), (-51.5098240912, 16.3677967188))
            ThreePointArc((-51.5098240912, 16.3677967188), (-50.7424459789, 16.5209584511), (-49.9624837875, 16.5840984821))
            Line((-49.9624837875, 16.5840984821), (-49.9624837875, 18.4927576189))
        make_face()
        with BuildLine():
            ThreePointArc((-51.5098240912, 33.6587008899), (-50.7398152308, 33.5419003047), (-49.9624837875, 33.4938186146))
            Line((-49.9624837875, 33.4938186146), (-49.9624837875, 33.8304501925))
            Line((-49.9624837875, 33.8304501925), (-49.9624837875, 35.5344236251))
            ThreePointArc((-49.9624837875, 35.5344236251), (-50.7424455275, 35.5975613727), (-51.5098240912, 35.7507176035))
            Line((-51.5098240912, 35.7507176035), (-51.5098240912, 33.6587008899))
        make_face()
    extrude(amount=F2_DEPTH)


solid = Compound([f1.part, f2.part])
